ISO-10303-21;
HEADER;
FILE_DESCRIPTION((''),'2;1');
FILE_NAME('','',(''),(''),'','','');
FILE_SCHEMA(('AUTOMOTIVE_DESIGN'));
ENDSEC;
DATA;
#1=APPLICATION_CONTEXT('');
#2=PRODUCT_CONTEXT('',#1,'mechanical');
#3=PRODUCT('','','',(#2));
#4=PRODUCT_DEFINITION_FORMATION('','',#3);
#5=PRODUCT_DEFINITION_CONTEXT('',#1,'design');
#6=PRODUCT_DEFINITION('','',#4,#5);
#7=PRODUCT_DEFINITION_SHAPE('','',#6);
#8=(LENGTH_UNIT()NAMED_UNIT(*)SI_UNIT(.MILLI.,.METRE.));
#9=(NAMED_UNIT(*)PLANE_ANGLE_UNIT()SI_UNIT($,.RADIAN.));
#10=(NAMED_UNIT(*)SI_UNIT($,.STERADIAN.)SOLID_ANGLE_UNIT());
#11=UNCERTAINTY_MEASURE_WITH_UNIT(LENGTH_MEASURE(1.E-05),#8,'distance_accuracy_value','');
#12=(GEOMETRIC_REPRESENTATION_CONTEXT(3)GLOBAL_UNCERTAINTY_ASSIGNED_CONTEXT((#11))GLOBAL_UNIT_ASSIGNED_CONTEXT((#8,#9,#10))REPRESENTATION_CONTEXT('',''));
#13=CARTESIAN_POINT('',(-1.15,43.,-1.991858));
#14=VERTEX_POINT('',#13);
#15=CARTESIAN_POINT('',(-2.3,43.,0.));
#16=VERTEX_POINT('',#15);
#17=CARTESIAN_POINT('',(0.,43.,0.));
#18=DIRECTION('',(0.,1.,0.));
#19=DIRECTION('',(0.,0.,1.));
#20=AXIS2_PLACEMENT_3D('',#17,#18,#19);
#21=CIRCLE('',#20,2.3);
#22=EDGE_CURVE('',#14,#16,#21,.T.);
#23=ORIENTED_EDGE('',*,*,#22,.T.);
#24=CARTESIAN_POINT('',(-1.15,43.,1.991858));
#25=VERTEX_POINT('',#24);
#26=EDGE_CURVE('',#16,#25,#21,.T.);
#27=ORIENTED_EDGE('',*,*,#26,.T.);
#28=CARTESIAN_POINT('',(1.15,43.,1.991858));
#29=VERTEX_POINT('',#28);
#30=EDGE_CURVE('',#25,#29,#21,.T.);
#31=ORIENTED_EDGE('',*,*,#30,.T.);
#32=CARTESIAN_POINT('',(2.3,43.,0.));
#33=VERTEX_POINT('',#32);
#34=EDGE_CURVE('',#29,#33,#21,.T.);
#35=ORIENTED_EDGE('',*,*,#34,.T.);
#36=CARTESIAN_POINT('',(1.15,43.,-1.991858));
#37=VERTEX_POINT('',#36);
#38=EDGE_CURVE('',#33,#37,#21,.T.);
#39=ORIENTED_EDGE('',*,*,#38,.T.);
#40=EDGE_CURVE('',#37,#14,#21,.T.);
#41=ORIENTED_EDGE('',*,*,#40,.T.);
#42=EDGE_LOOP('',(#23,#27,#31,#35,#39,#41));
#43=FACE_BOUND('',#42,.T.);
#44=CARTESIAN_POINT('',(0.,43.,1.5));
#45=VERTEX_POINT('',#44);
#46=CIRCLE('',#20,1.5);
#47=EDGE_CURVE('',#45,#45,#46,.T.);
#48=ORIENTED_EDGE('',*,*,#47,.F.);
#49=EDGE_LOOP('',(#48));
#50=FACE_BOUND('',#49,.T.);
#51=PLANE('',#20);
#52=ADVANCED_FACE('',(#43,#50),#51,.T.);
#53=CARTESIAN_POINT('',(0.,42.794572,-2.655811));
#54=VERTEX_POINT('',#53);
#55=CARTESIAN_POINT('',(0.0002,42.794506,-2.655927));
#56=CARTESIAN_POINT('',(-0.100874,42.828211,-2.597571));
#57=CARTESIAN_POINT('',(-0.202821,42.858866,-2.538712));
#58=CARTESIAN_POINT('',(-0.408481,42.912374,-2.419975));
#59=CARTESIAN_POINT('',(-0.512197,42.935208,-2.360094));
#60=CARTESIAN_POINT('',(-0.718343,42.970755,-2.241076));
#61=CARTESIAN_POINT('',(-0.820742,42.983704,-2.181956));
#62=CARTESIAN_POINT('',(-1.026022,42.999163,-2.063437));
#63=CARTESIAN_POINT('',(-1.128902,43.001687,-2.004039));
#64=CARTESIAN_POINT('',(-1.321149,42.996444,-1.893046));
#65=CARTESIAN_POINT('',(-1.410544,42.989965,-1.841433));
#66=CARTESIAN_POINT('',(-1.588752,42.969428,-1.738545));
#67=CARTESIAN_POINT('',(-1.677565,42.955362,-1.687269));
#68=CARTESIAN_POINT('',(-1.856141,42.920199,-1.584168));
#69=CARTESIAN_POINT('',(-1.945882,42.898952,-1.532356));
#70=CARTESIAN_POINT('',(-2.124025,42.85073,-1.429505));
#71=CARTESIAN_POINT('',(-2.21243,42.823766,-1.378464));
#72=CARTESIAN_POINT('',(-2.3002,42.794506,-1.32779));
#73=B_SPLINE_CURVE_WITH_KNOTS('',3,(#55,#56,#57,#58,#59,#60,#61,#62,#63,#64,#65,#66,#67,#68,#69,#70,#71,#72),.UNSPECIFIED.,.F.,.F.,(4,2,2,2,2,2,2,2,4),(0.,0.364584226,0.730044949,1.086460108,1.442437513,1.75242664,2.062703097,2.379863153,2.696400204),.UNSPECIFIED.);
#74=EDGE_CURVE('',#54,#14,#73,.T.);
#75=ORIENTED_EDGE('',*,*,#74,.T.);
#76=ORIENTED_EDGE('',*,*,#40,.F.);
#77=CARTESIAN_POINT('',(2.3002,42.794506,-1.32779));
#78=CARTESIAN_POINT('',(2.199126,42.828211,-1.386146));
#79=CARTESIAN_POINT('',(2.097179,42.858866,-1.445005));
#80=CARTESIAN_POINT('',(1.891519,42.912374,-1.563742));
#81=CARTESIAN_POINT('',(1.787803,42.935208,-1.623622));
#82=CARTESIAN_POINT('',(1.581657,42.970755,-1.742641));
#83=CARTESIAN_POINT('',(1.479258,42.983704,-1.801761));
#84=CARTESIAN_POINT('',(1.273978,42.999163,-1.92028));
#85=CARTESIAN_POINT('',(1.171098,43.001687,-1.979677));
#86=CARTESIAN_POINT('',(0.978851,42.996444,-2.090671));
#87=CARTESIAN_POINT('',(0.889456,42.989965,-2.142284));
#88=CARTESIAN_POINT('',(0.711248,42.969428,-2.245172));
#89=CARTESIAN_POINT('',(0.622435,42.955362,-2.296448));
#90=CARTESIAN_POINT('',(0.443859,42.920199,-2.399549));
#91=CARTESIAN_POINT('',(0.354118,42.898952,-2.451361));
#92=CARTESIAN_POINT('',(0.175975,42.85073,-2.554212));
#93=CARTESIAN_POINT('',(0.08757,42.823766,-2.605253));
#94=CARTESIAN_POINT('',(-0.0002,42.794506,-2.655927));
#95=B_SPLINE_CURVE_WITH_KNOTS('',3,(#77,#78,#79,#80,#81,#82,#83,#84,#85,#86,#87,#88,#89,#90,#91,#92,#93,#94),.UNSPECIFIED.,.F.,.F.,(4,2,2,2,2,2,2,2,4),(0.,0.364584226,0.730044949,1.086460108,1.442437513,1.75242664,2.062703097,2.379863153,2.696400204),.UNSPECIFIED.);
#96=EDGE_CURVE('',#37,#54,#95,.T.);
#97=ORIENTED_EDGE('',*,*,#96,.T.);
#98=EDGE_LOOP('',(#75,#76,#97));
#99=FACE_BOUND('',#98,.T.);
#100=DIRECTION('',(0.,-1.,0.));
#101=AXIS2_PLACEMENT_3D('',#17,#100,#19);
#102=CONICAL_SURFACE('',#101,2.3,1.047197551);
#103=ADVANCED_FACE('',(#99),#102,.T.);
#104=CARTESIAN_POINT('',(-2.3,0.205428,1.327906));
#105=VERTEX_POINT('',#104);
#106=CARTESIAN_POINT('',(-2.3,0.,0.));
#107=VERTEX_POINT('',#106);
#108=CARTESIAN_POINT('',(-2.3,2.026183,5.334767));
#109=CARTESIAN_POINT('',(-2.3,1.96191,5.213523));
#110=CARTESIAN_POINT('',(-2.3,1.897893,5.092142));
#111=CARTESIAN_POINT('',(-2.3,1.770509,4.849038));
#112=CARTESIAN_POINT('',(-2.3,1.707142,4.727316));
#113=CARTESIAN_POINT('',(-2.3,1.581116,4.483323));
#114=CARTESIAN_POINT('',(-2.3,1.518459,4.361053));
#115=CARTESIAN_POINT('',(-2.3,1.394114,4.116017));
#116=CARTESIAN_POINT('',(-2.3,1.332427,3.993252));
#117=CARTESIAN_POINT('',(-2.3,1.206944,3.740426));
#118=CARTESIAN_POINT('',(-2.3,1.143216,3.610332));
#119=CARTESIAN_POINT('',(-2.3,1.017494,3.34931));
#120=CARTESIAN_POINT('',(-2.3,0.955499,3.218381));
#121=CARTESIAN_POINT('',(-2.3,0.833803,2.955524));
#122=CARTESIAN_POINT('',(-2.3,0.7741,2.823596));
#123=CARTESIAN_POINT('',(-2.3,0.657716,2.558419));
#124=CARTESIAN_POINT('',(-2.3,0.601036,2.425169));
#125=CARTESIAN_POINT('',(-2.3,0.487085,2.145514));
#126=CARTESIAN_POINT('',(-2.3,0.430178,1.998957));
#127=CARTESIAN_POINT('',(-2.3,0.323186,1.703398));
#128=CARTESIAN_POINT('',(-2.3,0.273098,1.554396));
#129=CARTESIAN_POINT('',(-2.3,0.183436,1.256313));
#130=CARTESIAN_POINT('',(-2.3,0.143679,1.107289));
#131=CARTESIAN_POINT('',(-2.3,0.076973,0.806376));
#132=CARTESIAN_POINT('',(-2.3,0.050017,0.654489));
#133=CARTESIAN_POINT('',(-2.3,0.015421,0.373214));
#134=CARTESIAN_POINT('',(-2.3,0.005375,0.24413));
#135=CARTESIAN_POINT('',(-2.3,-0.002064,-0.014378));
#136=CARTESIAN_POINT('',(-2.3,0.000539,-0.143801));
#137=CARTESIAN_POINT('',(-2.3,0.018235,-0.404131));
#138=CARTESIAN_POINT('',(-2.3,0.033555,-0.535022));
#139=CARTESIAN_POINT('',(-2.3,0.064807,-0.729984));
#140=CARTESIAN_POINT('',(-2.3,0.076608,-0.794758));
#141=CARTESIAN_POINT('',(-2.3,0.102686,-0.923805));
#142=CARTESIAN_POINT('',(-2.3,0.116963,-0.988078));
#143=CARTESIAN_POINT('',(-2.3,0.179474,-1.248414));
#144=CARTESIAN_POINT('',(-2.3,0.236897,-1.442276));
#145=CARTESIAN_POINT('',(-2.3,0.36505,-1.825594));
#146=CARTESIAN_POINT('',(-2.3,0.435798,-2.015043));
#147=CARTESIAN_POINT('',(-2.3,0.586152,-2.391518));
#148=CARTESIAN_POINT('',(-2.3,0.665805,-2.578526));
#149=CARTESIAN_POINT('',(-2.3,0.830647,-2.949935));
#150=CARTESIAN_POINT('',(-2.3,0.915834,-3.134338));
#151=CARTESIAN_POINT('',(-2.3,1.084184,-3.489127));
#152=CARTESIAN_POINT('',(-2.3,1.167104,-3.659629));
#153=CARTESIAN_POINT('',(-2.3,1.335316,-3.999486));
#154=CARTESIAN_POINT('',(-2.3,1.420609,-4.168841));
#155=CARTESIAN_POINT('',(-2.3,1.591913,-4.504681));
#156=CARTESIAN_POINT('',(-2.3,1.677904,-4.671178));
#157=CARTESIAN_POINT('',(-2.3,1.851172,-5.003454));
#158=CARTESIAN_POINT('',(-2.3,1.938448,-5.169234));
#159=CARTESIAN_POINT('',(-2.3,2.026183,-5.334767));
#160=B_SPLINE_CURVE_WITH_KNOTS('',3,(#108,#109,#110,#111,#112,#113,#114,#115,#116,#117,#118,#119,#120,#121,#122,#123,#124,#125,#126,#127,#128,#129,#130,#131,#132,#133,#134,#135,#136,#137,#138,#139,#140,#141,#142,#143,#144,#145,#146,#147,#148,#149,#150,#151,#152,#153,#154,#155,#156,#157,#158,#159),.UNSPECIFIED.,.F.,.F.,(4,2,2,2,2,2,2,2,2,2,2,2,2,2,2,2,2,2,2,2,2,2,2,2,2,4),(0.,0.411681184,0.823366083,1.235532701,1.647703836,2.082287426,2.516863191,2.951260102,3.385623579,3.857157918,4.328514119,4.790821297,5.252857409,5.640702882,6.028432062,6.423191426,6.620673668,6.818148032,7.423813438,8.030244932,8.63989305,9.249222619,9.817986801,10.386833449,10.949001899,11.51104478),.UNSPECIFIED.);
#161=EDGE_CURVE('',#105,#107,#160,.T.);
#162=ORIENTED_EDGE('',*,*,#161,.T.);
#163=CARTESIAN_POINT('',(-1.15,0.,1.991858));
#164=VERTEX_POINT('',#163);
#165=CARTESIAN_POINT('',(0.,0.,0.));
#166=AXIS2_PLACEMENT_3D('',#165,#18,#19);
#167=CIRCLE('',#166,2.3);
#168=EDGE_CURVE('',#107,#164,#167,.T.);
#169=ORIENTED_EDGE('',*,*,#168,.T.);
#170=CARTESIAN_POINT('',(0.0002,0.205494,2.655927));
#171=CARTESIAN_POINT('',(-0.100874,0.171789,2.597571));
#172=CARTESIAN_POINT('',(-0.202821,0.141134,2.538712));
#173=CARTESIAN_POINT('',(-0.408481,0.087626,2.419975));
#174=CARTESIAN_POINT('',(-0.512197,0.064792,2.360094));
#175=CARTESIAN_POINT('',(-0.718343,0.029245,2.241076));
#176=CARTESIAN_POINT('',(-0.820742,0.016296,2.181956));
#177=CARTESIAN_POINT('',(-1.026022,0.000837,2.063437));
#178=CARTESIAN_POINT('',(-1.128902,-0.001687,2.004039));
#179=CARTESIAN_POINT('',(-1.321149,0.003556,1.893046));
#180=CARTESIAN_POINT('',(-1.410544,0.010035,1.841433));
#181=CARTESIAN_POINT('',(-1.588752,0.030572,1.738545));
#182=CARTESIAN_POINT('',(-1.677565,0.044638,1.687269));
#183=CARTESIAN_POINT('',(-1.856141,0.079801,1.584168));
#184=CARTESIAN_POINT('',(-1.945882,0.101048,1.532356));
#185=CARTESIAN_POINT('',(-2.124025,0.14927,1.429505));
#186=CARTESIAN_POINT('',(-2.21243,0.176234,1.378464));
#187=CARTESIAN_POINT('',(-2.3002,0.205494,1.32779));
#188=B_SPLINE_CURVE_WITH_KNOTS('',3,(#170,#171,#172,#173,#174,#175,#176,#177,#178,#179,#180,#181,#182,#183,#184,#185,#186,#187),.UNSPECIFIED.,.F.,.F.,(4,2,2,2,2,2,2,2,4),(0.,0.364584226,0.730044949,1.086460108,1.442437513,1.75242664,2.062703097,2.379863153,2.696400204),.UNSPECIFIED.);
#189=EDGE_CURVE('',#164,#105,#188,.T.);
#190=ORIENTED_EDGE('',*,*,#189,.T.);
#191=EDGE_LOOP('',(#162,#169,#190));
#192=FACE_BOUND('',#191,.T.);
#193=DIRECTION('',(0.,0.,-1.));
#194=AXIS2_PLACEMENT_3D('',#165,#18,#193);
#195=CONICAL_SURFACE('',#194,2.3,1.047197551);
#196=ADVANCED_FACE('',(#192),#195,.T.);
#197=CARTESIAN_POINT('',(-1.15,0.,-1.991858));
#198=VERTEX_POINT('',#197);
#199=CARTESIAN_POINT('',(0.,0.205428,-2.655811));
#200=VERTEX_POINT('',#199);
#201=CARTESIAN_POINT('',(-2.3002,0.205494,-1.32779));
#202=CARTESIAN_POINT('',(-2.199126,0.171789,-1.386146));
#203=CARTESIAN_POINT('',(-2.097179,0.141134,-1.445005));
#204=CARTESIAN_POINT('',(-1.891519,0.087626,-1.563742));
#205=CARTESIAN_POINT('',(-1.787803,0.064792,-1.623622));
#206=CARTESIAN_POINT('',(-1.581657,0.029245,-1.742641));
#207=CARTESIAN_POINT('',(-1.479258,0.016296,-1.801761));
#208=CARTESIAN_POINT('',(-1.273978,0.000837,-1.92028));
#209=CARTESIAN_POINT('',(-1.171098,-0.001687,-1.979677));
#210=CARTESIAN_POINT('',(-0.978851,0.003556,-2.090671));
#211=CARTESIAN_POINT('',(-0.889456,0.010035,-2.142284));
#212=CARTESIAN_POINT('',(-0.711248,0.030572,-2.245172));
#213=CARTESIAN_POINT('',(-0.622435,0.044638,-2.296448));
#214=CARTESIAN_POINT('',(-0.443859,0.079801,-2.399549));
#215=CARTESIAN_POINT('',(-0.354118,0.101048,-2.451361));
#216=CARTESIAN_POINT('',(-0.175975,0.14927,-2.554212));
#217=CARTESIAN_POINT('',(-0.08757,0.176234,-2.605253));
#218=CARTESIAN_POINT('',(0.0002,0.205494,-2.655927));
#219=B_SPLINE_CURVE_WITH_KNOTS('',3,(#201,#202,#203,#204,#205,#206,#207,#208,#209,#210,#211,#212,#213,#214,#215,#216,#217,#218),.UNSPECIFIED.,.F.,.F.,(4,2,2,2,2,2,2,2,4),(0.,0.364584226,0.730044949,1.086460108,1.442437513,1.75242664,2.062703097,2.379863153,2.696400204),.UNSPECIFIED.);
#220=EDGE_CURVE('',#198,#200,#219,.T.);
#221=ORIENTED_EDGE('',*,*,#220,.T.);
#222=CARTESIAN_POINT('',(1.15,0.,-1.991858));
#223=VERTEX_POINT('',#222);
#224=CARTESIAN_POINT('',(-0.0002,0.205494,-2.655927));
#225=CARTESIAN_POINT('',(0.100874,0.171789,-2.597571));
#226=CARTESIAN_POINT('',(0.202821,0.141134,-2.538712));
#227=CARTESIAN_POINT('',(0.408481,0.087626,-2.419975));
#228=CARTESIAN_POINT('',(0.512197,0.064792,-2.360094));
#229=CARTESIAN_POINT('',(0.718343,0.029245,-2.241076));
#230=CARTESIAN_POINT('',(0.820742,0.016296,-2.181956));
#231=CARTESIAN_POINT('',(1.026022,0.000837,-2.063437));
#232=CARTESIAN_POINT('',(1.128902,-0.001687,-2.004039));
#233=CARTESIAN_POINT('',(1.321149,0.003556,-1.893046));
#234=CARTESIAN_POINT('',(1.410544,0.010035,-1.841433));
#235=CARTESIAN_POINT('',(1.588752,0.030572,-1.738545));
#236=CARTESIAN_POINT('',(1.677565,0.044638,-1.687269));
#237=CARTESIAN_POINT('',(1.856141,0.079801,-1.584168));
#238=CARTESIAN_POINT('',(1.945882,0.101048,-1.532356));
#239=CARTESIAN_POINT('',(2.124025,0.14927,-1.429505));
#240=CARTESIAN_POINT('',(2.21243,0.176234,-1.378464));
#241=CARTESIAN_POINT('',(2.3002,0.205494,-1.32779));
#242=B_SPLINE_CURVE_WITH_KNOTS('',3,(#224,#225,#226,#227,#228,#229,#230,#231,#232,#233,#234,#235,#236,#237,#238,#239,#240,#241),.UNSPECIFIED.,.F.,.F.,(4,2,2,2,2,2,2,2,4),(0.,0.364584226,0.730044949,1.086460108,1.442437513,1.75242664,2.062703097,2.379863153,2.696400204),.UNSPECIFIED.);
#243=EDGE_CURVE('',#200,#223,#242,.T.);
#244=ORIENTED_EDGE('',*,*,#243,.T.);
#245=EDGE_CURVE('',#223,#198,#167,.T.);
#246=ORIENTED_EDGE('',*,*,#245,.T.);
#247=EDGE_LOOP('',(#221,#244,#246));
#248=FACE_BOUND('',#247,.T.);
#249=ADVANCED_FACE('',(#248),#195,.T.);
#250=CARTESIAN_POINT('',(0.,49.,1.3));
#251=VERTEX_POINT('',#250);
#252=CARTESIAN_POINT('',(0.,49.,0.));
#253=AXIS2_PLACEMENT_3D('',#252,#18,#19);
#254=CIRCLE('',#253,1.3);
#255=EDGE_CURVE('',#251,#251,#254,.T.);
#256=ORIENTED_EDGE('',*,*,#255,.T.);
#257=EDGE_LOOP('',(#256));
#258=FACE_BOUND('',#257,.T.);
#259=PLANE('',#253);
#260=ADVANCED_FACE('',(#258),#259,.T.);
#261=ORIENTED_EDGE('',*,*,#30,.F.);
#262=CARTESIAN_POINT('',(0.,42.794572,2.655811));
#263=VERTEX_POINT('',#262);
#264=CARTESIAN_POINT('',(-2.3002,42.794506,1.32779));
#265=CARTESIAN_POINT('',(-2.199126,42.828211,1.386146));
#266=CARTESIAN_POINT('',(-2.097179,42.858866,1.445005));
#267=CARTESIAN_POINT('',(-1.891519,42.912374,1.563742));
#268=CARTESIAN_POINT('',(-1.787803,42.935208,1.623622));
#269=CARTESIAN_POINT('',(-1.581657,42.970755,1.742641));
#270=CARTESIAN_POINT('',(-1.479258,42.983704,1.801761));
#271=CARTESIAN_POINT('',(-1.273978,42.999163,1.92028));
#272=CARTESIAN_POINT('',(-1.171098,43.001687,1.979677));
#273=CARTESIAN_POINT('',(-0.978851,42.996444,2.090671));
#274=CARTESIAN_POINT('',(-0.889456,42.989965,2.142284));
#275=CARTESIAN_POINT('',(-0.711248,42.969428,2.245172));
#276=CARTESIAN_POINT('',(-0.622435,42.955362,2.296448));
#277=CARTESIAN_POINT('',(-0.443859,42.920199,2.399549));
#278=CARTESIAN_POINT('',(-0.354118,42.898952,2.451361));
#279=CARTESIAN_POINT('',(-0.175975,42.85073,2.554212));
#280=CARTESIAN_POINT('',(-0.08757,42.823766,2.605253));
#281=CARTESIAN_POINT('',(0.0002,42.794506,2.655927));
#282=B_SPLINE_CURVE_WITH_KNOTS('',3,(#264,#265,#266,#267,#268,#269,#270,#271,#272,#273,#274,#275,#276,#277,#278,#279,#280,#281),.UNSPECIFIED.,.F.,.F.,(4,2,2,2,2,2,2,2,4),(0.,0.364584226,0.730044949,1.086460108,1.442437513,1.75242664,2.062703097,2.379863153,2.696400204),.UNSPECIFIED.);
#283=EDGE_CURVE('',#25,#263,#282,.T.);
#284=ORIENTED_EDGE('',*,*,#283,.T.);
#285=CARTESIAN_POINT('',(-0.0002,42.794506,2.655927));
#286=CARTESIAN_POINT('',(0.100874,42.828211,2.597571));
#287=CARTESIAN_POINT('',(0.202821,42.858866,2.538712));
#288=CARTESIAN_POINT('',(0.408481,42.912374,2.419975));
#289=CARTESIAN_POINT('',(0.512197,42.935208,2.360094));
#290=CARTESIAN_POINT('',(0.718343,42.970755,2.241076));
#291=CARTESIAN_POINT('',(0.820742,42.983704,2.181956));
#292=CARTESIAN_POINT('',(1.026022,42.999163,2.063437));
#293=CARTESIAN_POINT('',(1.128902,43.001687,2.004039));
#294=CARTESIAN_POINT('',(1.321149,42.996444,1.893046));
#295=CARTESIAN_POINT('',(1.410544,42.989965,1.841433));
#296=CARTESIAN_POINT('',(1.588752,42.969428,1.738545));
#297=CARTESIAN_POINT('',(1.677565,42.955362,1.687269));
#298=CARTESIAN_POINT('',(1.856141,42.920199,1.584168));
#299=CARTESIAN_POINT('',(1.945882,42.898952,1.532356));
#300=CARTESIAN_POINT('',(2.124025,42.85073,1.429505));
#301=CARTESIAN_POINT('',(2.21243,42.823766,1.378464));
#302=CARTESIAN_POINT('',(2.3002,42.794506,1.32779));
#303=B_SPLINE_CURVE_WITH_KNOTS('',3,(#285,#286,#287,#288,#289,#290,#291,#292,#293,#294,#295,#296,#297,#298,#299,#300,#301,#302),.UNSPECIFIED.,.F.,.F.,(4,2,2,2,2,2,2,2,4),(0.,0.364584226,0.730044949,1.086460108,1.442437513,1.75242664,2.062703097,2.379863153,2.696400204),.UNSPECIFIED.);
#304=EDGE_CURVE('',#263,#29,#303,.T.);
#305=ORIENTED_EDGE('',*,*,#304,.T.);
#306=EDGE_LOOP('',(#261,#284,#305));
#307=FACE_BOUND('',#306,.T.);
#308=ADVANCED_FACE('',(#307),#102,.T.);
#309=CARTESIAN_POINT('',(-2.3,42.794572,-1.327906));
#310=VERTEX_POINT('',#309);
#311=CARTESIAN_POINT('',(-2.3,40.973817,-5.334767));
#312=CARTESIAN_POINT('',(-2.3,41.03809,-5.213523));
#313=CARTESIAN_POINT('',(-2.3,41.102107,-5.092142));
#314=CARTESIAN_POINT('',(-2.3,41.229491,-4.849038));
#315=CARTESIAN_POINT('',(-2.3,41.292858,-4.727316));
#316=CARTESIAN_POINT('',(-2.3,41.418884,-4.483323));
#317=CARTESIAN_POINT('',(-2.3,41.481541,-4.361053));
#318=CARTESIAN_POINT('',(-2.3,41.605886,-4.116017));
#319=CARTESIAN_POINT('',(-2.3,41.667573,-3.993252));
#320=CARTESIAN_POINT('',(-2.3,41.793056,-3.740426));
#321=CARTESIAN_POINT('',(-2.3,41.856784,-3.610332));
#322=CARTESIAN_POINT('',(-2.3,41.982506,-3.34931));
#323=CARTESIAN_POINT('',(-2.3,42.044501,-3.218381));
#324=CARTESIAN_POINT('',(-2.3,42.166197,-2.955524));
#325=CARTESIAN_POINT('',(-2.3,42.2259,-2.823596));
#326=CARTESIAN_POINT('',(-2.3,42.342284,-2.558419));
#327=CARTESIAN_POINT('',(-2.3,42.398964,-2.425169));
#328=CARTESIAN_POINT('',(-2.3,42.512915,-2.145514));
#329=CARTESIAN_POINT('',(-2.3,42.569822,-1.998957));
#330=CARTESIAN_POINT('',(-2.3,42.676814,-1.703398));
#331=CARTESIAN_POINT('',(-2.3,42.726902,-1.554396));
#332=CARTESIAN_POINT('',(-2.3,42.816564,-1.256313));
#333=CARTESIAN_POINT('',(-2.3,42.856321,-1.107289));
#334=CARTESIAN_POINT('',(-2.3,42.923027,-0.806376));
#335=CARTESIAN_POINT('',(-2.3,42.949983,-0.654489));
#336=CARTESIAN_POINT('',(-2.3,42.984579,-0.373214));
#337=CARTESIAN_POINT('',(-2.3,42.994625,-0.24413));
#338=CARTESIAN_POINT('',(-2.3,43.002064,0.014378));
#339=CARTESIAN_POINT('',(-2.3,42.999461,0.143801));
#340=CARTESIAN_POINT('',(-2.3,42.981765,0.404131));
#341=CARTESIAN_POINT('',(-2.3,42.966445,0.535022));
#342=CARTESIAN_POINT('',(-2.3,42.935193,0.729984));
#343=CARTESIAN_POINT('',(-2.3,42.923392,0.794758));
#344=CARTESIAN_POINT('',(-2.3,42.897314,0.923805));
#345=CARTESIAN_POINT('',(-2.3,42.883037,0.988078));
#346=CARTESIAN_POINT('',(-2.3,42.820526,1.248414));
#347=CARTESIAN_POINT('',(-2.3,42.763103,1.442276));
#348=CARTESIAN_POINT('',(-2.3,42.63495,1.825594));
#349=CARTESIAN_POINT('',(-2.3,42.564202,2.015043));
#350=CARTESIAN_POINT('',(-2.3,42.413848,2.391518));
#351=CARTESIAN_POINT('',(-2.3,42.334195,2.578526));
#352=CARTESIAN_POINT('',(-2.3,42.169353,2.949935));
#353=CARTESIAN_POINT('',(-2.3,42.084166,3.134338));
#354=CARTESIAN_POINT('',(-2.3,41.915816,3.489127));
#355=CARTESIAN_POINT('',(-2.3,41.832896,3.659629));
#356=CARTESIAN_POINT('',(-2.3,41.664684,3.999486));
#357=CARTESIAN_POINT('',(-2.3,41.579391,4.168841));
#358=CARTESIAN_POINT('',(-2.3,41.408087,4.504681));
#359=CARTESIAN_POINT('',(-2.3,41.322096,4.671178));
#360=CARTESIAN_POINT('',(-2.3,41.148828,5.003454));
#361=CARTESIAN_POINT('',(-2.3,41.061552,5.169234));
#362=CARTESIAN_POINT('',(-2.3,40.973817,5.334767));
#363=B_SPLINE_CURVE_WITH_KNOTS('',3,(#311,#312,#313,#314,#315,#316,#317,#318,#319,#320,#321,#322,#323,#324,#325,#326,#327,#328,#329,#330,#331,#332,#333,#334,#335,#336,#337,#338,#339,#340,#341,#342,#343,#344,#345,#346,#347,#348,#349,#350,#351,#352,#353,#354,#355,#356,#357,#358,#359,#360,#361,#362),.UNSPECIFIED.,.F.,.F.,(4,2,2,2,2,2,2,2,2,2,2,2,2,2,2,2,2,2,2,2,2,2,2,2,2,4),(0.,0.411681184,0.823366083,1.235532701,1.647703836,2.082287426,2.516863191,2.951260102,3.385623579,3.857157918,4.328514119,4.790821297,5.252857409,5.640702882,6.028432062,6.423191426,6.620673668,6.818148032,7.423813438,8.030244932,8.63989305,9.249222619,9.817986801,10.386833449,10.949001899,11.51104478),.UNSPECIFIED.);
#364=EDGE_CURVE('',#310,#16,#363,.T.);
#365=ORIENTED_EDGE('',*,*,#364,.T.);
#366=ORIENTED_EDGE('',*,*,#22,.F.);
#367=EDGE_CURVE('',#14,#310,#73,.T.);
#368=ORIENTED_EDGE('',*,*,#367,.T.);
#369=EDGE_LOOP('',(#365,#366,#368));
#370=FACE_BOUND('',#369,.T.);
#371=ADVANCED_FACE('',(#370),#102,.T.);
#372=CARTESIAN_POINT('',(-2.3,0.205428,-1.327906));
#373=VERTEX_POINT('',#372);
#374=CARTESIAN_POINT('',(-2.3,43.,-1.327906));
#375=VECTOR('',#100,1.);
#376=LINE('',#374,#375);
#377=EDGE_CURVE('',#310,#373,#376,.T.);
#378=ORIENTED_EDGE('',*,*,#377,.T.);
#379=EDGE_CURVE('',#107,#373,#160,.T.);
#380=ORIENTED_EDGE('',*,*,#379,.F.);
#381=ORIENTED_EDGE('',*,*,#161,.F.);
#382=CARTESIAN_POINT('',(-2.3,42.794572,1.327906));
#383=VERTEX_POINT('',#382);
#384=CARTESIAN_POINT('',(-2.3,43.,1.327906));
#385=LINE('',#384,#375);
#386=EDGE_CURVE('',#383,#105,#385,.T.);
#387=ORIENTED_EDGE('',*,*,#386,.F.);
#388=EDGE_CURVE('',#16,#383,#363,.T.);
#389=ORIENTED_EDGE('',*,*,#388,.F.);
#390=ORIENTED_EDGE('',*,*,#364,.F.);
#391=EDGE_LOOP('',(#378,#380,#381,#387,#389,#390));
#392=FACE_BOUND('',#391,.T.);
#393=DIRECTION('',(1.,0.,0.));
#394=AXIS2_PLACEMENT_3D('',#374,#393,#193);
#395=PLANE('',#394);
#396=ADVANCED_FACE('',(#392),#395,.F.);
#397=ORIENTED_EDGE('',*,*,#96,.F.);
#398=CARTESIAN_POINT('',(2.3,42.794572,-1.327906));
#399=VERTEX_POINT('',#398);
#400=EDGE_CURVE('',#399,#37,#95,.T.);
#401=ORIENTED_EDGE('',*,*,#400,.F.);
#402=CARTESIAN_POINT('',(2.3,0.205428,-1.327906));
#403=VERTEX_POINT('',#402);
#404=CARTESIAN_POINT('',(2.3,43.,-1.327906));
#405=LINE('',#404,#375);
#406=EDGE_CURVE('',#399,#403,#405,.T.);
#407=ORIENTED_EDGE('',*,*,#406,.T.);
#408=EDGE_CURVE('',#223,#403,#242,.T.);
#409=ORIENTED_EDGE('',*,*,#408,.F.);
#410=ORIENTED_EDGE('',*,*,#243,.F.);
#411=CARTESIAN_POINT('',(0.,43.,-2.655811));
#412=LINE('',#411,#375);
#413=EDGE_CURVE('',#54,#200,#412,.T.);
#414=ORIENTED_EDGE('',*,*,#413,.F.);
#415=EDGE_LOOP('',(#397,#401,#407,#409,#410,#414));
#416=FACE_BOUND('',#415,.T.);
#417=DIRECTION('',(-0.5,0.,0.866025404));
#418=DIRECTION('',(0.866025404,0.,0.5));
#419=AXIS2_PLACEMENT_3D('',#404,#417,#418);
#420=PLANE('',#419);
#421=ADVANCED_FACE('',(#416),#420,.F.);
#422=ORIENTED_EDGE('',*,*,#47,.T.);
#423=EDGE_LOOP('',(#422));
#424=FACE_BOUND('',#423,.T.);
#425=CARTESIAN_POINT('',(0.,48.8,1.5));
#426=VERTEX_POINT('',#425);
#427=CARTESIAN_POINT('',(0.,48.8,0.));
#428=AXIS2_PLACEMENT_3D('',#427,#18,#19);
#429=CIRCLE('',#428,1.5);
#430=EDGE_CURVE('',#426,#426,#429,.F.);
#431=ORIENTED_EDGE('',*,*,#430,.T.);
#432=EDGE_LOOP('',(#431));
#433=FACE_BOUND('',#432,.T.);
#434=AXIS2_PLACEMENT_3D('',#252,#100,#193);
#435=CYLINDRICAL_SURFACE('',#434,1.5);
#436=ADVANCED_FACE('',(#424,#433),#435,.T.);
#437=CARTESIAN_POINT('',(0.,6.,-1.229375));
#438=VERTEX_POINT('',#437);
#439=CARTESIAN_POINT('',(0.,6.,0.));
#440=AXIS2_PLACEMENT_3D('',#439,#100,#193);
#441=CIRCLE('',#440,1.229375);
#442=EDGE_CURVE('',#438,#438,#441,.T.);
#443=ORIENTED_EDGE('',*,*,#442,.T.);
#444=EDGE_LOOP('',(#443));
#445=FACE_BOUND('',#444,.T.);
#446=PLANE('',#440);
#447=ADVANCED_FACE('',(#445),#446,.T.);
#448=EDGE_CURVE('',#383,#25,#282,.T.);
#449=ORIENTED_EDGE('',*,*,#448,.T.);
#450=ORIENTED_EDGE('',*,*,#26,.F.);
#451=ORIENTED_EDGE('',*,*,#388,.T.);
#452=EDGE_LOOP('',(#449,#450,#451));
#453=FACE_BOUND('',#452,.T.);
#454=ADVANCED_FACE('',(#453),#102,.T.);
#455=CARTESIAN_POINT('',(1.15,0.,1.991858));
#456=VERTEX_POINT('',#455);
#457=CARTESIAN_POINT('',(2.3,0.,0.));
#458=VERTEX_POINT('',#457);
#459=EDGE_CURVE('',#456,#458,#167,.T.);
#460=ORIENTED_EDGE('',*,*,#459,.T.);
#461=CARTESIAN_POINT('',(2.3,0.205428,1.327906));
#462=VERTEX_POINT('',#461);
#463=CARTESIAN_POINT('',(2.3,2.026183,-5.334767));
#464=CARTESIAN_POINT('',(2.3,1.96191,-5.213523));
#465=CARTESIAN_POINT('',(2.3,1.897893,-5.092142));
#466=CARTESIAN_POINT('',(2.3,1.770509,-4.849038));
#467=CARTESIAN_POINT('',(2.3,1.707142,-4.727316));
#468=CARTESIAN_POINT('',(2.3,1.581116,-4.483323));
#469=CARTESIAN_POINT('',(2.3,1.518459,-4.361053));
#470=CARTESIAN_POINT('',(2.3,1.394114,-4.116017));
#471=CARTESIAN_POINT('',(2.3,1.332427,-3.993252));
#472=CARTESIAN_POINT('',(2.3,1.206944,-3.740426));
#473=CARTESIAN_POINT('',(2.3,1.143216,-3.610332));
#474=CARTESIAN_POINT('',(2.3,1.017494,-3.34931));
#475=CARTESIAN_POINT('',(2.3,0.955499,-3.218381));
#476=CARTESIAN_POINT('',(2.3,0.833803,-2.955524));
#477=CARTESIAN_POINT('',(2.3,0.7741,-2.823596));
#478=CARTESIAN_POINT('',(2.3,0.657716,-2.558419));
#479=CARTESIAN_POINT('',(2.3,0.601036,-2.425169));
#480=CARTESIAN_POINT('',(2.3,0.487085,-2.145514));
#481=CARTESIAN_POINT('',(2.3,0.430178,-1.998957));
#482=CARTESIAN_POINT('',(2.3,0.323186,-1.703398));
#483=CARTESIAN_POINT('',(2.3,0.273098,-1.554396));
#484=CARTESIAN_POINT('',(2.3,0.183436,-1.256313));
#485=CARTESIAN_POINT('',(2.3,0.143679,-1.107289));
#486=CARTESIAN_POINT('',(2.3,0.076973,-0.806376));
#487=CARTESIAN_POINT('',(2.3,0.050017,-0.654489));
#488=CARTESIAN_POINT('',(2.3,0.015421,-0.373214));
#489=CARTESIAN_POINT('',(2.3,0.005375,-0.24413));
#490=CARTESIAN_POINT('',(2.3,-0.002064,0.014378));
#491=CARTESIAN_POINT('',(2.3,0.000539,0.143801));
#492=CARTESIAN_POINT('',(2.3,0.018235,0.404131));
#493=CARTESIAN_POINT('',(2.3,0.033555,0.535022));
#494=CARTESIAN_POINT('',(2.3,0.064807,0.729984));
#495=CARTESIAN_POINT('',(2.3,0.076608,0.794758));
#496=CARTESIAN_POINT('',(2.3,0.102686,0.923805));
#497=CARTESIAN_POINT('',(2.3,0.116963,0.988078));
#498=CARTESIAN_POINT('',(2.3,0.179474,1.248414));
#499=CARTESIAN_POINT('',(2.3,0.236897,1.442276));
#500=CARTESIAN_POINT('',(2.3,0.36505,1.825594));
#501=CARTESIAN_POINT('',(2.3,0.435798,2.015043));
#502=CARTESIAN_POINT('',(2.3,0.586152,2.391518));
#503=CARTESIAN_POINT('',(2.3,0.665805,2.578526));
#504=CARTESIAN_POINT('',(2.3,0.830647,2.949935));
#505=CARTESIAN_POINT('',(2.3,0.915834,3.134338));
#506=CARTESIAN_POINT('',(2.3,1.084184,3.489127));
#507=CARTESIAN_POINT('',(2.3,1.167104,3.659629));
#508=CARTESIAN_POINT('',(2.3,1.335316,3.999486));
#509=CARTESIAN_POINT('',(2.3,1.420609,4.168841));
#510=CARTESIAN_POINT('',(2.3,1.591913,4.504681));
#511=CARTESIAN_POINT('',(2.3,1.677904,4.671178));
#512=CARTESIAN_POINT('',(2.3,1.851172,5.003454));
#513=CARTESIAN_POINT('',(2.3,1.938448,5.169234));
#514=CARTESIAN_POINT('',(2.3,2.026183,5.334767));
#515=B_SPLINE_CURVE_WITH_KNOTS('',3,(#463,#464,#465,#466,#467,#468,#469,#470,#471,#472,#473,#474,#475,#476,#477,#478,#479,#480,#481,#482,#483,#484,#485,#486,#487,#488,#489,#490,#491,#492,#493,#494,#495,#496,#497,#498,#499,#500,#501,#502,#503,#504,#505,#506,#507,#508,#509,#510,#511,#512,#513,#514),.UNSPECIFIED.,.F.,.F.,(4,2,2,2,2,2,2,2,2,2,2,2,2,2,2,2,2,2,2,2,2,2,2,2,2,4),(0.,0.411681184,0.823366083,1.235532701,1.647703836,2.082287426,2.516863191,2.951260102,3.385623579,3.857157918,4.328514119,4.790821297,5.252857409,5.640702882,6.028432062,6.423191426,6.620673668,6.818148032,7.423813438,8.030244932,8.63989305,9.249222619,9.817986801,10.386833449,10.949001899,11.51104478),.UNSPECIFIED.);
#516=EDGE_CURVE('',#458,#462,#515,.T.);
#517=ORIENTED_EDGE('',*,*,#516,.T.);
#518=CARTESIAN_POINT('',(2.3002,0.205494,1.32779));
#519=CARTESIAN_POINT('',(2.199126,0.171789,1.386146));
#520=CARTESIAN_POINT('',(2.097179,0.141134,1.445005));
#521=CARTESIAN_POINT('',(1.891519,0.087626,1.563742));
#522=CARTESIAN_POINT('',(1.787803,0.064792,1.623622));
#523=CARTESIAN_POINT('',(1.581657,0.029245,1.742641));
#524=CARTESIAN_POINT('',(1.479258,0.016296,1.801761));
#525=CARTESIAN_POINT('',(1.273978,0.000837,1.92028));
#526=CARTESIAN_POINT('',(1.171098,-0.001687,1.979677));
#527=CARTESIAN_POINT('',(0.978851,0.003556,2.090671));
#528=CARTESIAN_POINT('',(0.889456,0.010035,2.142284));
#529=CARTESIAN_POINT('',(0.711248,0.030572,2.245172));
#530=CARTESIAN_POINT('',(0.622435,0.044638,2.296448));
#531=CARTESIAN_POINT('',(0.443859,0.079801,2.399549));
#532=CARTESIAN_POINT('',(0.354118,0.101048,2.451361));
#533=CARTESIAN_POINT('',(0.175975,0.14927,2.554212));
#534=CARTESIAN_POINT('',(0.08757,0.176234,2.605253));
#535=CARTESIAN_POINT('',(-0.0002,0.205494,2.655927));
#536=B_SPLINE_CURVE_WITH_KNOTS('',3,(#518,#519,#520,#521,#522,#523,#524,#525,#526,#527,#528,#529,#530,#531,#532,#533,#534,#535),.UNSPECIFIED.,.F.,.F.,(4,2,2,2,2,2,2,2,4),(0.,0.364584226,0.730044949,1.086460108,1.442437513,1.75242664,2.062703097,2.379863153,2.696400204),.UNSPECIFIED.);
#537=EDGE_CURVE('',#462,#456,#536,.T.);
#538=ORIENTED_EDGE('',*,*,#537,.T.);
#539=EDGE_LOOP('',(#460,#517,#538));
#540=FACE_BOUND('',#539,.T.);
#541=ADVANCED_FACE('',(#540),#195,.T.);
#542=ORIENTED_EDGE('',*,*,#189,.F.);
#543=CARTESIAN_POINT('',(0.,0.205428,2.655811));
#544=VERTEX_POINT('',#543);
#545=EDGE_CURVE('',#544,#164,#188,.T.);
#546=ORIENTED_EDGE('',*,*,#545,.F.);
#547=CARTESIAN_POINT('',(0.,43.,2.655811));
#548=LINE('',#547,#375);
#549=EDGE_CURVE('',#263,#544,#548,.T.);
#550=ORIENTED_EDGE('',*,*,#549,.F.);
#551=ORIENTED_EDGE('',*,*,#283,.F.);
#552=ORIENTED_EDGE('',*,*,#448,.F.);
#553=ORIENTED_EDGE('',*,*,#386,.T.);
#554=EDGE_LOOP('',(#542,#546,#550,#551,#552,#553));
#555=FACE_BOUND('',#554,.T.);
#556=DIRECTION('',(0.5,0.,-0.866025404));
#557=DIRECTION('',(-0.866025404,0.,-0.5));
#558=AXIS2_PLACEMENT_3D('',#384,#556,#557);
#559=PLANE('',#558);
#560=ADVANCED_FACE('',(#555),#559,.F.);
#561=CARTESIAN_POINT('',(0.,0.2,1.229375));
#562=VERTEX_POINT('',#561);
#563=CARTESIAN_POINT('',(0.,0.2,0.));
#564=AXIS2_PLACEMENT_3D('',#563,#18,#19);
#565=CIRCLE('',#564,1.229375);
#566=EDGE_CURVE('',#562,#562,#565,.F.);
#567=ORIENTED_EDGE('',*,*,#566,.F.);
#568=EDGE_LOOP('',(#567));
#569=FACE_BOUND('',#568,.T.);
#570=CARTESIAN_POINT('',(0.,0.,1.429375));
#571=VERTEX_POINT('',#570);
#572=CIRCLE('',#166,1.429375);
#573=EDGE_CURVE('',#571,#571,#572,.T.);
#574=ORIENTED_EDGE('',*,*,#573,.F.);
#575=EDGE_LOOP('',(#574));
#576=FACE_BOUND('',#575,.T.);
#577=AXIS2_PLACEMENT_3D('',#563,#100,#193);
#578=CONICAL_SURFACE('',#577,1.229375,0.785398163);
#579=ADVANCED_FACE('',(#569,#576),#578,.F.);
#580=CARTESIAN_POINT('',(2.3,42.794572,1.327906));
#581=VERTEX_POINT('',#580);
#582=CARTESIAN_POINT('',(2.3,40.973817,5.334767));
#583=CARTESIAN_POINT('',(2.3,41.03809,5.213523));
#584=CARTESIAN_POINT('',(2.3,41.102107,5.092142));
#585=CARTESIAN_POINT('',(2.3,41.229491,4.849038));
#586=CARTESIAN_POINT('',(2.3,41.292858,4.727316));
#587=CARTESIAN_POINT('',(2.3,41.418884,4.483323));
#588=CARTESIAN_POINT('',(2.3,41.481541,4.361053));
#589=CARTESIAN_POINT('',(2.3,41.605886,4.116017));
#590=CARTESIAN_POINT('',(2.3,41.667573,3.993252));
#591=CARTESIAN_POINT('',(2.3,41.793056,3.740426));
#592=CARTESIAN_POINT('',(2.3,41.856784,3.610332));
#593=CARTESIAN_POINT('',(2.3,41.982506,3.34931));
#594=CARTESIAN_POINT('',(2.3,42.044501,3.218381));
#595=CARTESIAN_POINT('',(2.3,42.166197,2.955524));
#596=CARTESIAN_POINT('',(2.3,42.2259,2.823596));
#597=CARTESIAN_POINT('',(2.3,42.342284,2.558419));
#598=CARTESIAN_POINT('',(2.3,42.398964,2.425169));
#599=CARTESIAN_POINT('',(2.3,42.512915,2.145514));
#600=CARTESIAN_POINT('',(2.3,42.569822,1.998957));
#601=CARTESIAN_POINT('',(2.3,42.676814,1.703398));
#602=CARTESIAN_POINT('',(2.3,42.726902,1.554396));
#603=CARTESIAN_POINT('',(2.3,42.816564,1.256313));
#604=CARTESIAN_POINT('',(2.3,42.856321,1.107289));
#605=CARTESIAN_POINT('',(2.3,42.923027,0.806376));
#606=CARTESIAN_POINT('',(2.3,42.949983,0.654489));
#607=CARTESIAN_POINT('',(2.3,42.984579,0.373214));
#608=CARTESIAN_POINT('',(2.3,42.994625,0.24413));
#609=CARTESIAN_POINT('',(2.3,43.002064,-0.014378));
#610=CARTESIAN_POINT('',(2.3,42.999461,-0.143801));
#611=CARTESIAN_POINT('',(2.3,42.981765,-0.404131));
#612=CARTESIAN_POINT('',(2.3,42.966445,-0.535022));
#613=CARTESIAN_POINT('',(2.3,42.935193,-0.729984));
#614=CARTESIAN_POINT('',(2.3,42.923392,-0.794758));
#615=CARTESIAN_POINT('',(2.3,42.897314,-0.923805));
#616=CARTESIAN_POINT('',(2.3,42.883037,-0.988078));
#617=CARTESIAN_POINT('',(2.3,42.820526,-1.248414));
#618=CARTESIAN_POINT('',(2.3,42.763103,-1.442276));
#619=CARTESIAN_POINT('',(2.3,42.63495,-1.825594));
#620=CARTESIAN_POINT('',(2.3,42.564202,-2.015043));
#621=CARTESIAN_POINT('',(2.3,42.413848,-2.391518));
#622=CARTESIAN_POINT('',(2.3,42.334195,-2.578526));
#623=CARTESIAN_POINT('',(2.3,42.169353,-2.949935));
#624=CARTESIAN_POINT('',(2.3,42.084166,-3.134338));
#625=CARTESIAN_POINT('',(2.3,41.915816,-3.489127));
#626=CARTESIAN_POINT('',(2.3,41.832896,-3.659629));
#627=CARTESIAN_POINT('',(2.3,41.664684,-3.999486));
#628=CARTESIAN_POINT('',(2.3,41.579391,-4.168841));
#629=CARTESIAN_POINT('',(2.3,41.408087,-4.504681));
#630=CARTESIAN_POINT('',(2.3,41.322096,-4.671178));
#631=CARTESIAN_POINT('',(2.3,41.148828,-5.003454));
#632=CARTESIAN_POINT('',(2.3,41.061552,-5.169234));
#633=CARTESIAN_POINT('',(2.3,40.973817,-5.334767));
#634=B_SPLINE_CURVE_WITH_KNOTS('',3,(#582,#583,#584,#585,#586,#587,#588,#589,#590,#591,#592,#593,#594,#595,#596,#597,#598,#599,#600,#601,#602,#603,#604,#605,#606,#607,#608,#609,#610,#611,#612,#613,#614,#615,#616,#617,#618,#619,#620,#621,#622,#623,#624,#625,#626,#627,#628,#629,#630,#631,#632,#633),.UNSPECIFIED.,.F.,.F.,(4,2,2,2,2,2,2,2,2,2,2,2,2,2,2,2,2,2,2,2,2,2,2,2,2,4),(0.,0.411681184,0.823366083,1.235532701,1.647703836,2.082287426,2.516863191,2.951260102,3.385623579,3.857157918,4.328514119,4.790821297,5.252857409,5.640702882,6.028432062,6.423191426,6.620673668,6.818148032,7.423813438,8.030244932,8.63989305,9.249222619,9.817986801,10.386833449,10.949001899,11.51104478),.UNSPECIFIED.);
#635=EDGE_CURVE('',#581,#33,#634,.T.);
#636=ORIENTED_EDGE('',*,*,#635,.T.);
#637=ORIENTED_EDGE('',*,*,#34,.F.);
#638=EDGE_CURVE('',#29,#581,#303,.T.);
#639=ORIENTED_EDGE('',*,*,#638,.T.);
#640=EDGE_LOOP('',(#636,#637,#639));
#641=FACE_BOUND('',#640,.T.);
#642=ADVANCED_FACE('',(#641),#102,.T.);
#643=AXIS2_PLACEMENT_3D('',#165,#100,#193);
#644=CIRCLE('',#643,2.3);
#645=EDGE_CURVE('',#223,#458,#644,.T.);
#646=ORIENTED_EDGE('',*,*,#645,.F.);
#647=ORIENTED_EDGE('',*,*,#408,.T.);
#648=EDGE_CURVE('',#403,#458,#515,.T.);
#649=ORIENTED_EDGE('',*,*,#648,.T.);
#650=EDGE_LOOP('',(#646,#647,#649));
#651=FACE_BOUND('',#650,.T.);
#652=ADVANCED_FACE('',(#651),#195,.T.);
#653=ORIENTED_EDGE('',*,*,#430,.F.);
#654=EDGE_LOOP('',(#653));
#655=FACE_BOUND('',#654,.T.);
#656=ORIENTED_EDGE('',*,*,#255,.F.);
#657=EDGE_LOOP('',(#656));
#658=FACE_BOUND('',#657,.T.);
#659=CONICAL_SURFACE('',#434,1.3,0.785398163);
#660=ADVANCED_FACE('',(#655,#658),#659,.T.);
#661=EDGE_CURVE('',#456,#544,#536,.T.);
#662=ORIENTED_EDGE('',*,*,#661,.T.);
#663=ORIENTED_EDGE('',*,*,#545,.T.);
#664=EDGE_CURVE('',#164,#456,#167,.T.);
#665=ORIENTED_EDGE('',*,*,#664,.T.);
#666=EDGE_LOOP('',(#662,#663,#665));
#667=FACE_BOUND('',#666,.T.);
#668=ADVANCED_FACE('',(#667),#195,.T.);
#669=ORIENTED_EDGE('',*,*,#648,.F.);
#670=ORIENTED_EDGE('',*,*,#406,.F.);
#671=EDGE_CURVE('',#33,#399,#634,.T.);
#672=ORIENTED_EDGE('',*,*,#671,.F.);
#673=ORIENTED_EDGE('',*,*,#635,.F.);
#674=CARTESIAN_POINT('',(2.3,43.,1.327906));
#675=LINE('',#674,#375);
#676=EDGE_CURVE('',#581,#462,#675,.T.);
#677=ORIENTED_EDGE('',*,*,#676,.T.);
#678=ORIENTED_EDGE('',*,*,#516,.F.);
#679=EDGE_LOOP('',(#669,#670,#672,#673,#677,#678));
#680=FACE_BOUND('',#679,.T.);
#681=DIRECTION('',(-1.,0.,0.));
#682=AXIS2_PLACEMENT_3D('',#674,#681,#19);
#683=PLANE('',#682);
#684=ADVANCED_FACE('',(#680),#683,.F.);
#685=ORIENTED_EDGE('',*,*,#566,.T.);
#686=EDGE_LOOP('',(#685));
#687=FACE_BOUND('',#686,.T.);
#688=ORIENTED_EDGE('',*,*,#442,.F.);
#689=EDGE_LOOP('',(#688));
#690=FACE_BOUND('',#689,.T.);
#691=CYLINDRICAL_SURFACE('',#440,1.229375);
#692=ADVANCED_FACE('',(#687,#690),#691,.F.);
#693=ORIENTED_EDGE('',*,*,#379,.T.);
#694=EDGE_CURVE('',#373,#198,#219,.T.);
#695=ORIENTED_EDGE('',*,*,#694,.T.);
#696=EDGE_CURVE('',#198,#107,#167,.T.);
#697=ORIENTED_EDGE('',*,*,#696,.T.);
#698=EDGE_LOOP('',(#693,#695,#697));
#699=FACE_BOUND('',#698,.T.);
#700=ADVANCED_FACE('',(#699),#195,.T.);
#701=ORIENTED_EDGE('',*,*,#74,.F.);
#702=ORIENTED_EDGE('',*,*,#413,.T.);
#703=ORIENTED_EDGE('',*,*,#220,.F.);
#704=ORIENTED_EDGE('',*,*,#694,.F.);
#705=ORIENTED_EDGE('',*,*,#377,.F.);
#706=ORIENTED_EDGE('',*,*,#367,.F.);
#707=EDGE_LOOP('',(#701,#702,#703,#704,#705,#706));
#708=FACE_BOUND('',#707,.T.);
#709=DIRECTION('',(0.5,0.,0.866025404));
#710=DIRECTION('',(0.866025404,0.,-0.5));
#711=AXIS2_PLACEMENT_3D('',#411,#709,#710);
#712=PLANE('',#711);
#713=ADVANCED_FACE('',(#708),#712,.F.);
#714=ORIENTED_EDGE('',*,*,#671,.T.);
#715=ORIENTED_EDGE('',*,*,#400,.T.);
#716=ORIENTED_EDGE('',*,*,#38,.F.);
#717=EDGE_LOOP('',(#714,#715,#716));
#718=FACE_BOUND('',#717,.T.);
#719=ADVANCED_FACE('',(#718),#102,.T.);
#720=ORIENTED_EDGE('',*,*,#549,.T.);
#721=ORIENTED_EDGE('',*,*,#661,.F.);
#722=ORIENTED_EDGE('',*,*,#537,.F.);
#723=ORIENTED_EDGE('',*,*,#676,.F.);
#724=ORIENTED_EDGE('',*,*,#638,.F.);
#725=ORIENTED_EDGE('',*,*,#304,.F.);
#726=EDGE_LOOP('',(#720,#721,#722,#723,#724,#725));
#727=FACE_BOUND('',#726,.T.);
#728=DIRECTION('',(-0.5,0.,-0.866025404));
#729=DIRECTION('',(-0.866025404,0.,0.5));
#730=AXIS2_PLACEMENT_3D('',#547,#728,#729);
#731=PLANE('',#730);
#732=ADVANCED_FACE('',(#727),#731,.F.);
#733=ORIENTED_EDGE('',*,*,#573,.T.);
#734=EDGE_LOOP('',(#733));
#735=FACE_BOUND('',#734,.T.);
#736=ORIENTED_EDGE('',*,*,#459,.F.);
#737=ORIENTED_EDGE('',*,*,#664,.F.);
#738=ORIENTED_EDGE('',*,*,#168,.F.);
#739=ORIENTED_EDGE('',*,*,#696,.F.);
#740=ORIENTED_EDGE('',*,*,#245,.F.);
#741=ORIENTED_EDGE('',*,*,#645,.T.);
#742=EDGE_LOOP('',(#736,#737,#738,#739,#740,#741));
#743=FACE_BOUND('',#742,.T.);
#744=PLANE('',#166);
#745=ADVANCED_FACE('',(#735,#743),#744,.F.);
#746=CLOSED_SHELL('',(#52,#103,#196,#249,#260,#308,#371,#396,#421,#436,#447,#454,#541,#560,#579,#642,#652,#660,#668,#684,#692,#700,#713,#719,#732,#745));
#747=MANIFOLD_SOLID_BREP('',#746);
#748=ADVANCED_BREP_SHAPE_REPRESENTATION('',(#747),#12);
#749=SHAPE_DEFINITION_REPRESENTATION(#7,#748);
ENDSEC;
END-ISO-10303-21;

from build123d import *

# Parameters (mm, degrees)
EXTRUDE_1_DEPTH      = 43
SKETCH_2_R           = 1.5
EXTRUDE_2_DEPTH      = 6
CHAMFER_1_SIZE       = 0.2
SKETCH_3_R           = 1.229375
CUT_EXTRUDE_1_DEPTH  = 6
SKETCH_4_OUTSIDE_W   = 26.892
SKETCH_4_OUTSIDE_H   = 27.604
SKETCH_4_OUTSIDE_R   = 2.3
CUT_EXTRUDE_2_DEPTH  = 3
CUT_EXTRUDE_2_DRAFT  = -60
CUT_EXTRUDE_START    = -43
SKETCH_4_2_OUTSIDE_W = 26.892
SKETCH_4_2_OUTSIDE_H = 27.604
SKETCH_4_2_OUTSIDE_R = 2.3
CUT_EXTRUDE_3_DEPTH  = 3
CUT_EXTRUDE_3_DRAFT  = 60
CHAMFER_2_SIZE       = 0.2


with BuildPart() as part:
    # 草图1 → 凸台-拉伸1 (new body)
    with BuildSketch(Plane(origin=(0, 0, 0), x_dir=(1, 0, 0), z_dir=(0, 1, 0))):
        Polygon((0, 2.655811238), (-2.3, 1.327905619), (-2.3, -1.327905619), (0, -2.655811238), (2.3, -1.327905619), (2.3, 1.327905619), align=None)
    extrude(amount=EXTRUDE_1_DEPTH)

    # 草图2 → 凸台-拉伸2 (add)
    with BuildSketch(Plane(origin=(0, 43, 0), x_dir=(1, 0, 0), z_dir=(0, 1, 0))):
        with Locations(Location((0, 0, 0), (0, 0, 270))):
            Circle(SKETCH_2_R)
    extrude(amount=EXTRUDE_2_DEPTH)

    # 倒角1
    chamfer_1_edges = [part.edges().sort_by_distance(p)[0] for p in [
        (0, 49, -1.5),
    ]]
    chamfer(chamfer_1_edges, length=CHAMFER_1_SIZE)

    # 草图3 → 切除-拉伸1 (cut)
    with BuildSketch(Plane.XZ):
        with Locations(Location((0, 0, 0), (0, 0, 270))):
            Circle(SKETCH_3_R)
    extrude(amount=-CUT_EXTRUDE_1_DEPTH, mode=Mode.SUBTRACT)


with BuildPart() as cut_extrude_2_tool:
    # 草图4 outside → 切除-拉伸2 (with draft: the straight prism first)
    with BuildSketch(Plane.XZ):
        Rectangle(SKETCH_4_OUTSIDE_W, SKETCH_4_OUTSIDE_H)
        Circle(SKETCH_4_OUTSIDE_R, mode=Mode.SUBTRACT)
    extrude(amount=-CUT_EXTRUDE_2_DEPTH)
    # 切除-拉伸2: the draft: its side faces are tilted about the plane it starts from
    cut_extrude_2_sides = [cut_extrude_2_tool.faces().sort_by_distance(p)[0] for p in [
        (0, 1.5, -13.802),
        (13.446, 1.5, 0),
        (0, 1.5, 13.802),
        (-13.446, 1.5, 0),
        (-2.3, 1.5, 0),
    ]]
    draft(cut_extrude_2_sides, Plane.XZ, CUT_EXTRUDE_2_DRAFT)


with BuildPart() as part_1:
    add(part.part)

    # 切除-拉伸2: cut by cut_extrude_2_tool
    add(cut_extrude_2_tool.part, mode=Mode.SUBTRACT)


with BuildPart() as cut_extrude_3_tool:
    # 草图4<2> outside → 切除-拉伸3 (with draft: the straight prism first)
    with BuildSketch(Plane.XZ.offset(CUT_EXTRUDE_START)):
        Rectangle(SKETCH_4_2_OUTSIDE_W, SKETCH_4_2_OUTSIDE_H)
        Circle(SKETCH_4_2_OUTSIDE_R, mode=Mode.SUBTRACT)
    extrude(amount=CUT_EXTRUDE_3_DEPTH)
    # 切除-拉伸3: the draft: its side faces are tilted about the plane it starts from
    cut_extrude_3_sides = [cut_extrude_3_tool.faces().sort_by_distance(p)[0] for p in [
        (0, 41.5, -13.802),
        (13.446, 41.5, 0),
        (0, 41.5, 13.802),
        (-13.446, 41.5, 0),
        (-2.3, 41.5, 0),
    ]]
    draft(cut_extrude_3_sides, Plane.XZ.offset(CUT_EXTRUDE_START), CUT_EXTRUDE_3_DRAFT)


with BuildPart() as part_2:
    add(part_1.part)

    # 切除-拉伸3: cut by cut_extrude_3_tool
    add(cut_extrude_3_tool.part, mode=Mode.SUBTRACT)

    # 倒角2
    chamfer_2_edges = [part_2.edges().sort_by_distance(p)[0] for p in [
        (0, 0, 1.229375),
    ]]
    chamfer(chamfer_2_edges, length=CHAMFER_2_SIZE)


solid = part_2.part
